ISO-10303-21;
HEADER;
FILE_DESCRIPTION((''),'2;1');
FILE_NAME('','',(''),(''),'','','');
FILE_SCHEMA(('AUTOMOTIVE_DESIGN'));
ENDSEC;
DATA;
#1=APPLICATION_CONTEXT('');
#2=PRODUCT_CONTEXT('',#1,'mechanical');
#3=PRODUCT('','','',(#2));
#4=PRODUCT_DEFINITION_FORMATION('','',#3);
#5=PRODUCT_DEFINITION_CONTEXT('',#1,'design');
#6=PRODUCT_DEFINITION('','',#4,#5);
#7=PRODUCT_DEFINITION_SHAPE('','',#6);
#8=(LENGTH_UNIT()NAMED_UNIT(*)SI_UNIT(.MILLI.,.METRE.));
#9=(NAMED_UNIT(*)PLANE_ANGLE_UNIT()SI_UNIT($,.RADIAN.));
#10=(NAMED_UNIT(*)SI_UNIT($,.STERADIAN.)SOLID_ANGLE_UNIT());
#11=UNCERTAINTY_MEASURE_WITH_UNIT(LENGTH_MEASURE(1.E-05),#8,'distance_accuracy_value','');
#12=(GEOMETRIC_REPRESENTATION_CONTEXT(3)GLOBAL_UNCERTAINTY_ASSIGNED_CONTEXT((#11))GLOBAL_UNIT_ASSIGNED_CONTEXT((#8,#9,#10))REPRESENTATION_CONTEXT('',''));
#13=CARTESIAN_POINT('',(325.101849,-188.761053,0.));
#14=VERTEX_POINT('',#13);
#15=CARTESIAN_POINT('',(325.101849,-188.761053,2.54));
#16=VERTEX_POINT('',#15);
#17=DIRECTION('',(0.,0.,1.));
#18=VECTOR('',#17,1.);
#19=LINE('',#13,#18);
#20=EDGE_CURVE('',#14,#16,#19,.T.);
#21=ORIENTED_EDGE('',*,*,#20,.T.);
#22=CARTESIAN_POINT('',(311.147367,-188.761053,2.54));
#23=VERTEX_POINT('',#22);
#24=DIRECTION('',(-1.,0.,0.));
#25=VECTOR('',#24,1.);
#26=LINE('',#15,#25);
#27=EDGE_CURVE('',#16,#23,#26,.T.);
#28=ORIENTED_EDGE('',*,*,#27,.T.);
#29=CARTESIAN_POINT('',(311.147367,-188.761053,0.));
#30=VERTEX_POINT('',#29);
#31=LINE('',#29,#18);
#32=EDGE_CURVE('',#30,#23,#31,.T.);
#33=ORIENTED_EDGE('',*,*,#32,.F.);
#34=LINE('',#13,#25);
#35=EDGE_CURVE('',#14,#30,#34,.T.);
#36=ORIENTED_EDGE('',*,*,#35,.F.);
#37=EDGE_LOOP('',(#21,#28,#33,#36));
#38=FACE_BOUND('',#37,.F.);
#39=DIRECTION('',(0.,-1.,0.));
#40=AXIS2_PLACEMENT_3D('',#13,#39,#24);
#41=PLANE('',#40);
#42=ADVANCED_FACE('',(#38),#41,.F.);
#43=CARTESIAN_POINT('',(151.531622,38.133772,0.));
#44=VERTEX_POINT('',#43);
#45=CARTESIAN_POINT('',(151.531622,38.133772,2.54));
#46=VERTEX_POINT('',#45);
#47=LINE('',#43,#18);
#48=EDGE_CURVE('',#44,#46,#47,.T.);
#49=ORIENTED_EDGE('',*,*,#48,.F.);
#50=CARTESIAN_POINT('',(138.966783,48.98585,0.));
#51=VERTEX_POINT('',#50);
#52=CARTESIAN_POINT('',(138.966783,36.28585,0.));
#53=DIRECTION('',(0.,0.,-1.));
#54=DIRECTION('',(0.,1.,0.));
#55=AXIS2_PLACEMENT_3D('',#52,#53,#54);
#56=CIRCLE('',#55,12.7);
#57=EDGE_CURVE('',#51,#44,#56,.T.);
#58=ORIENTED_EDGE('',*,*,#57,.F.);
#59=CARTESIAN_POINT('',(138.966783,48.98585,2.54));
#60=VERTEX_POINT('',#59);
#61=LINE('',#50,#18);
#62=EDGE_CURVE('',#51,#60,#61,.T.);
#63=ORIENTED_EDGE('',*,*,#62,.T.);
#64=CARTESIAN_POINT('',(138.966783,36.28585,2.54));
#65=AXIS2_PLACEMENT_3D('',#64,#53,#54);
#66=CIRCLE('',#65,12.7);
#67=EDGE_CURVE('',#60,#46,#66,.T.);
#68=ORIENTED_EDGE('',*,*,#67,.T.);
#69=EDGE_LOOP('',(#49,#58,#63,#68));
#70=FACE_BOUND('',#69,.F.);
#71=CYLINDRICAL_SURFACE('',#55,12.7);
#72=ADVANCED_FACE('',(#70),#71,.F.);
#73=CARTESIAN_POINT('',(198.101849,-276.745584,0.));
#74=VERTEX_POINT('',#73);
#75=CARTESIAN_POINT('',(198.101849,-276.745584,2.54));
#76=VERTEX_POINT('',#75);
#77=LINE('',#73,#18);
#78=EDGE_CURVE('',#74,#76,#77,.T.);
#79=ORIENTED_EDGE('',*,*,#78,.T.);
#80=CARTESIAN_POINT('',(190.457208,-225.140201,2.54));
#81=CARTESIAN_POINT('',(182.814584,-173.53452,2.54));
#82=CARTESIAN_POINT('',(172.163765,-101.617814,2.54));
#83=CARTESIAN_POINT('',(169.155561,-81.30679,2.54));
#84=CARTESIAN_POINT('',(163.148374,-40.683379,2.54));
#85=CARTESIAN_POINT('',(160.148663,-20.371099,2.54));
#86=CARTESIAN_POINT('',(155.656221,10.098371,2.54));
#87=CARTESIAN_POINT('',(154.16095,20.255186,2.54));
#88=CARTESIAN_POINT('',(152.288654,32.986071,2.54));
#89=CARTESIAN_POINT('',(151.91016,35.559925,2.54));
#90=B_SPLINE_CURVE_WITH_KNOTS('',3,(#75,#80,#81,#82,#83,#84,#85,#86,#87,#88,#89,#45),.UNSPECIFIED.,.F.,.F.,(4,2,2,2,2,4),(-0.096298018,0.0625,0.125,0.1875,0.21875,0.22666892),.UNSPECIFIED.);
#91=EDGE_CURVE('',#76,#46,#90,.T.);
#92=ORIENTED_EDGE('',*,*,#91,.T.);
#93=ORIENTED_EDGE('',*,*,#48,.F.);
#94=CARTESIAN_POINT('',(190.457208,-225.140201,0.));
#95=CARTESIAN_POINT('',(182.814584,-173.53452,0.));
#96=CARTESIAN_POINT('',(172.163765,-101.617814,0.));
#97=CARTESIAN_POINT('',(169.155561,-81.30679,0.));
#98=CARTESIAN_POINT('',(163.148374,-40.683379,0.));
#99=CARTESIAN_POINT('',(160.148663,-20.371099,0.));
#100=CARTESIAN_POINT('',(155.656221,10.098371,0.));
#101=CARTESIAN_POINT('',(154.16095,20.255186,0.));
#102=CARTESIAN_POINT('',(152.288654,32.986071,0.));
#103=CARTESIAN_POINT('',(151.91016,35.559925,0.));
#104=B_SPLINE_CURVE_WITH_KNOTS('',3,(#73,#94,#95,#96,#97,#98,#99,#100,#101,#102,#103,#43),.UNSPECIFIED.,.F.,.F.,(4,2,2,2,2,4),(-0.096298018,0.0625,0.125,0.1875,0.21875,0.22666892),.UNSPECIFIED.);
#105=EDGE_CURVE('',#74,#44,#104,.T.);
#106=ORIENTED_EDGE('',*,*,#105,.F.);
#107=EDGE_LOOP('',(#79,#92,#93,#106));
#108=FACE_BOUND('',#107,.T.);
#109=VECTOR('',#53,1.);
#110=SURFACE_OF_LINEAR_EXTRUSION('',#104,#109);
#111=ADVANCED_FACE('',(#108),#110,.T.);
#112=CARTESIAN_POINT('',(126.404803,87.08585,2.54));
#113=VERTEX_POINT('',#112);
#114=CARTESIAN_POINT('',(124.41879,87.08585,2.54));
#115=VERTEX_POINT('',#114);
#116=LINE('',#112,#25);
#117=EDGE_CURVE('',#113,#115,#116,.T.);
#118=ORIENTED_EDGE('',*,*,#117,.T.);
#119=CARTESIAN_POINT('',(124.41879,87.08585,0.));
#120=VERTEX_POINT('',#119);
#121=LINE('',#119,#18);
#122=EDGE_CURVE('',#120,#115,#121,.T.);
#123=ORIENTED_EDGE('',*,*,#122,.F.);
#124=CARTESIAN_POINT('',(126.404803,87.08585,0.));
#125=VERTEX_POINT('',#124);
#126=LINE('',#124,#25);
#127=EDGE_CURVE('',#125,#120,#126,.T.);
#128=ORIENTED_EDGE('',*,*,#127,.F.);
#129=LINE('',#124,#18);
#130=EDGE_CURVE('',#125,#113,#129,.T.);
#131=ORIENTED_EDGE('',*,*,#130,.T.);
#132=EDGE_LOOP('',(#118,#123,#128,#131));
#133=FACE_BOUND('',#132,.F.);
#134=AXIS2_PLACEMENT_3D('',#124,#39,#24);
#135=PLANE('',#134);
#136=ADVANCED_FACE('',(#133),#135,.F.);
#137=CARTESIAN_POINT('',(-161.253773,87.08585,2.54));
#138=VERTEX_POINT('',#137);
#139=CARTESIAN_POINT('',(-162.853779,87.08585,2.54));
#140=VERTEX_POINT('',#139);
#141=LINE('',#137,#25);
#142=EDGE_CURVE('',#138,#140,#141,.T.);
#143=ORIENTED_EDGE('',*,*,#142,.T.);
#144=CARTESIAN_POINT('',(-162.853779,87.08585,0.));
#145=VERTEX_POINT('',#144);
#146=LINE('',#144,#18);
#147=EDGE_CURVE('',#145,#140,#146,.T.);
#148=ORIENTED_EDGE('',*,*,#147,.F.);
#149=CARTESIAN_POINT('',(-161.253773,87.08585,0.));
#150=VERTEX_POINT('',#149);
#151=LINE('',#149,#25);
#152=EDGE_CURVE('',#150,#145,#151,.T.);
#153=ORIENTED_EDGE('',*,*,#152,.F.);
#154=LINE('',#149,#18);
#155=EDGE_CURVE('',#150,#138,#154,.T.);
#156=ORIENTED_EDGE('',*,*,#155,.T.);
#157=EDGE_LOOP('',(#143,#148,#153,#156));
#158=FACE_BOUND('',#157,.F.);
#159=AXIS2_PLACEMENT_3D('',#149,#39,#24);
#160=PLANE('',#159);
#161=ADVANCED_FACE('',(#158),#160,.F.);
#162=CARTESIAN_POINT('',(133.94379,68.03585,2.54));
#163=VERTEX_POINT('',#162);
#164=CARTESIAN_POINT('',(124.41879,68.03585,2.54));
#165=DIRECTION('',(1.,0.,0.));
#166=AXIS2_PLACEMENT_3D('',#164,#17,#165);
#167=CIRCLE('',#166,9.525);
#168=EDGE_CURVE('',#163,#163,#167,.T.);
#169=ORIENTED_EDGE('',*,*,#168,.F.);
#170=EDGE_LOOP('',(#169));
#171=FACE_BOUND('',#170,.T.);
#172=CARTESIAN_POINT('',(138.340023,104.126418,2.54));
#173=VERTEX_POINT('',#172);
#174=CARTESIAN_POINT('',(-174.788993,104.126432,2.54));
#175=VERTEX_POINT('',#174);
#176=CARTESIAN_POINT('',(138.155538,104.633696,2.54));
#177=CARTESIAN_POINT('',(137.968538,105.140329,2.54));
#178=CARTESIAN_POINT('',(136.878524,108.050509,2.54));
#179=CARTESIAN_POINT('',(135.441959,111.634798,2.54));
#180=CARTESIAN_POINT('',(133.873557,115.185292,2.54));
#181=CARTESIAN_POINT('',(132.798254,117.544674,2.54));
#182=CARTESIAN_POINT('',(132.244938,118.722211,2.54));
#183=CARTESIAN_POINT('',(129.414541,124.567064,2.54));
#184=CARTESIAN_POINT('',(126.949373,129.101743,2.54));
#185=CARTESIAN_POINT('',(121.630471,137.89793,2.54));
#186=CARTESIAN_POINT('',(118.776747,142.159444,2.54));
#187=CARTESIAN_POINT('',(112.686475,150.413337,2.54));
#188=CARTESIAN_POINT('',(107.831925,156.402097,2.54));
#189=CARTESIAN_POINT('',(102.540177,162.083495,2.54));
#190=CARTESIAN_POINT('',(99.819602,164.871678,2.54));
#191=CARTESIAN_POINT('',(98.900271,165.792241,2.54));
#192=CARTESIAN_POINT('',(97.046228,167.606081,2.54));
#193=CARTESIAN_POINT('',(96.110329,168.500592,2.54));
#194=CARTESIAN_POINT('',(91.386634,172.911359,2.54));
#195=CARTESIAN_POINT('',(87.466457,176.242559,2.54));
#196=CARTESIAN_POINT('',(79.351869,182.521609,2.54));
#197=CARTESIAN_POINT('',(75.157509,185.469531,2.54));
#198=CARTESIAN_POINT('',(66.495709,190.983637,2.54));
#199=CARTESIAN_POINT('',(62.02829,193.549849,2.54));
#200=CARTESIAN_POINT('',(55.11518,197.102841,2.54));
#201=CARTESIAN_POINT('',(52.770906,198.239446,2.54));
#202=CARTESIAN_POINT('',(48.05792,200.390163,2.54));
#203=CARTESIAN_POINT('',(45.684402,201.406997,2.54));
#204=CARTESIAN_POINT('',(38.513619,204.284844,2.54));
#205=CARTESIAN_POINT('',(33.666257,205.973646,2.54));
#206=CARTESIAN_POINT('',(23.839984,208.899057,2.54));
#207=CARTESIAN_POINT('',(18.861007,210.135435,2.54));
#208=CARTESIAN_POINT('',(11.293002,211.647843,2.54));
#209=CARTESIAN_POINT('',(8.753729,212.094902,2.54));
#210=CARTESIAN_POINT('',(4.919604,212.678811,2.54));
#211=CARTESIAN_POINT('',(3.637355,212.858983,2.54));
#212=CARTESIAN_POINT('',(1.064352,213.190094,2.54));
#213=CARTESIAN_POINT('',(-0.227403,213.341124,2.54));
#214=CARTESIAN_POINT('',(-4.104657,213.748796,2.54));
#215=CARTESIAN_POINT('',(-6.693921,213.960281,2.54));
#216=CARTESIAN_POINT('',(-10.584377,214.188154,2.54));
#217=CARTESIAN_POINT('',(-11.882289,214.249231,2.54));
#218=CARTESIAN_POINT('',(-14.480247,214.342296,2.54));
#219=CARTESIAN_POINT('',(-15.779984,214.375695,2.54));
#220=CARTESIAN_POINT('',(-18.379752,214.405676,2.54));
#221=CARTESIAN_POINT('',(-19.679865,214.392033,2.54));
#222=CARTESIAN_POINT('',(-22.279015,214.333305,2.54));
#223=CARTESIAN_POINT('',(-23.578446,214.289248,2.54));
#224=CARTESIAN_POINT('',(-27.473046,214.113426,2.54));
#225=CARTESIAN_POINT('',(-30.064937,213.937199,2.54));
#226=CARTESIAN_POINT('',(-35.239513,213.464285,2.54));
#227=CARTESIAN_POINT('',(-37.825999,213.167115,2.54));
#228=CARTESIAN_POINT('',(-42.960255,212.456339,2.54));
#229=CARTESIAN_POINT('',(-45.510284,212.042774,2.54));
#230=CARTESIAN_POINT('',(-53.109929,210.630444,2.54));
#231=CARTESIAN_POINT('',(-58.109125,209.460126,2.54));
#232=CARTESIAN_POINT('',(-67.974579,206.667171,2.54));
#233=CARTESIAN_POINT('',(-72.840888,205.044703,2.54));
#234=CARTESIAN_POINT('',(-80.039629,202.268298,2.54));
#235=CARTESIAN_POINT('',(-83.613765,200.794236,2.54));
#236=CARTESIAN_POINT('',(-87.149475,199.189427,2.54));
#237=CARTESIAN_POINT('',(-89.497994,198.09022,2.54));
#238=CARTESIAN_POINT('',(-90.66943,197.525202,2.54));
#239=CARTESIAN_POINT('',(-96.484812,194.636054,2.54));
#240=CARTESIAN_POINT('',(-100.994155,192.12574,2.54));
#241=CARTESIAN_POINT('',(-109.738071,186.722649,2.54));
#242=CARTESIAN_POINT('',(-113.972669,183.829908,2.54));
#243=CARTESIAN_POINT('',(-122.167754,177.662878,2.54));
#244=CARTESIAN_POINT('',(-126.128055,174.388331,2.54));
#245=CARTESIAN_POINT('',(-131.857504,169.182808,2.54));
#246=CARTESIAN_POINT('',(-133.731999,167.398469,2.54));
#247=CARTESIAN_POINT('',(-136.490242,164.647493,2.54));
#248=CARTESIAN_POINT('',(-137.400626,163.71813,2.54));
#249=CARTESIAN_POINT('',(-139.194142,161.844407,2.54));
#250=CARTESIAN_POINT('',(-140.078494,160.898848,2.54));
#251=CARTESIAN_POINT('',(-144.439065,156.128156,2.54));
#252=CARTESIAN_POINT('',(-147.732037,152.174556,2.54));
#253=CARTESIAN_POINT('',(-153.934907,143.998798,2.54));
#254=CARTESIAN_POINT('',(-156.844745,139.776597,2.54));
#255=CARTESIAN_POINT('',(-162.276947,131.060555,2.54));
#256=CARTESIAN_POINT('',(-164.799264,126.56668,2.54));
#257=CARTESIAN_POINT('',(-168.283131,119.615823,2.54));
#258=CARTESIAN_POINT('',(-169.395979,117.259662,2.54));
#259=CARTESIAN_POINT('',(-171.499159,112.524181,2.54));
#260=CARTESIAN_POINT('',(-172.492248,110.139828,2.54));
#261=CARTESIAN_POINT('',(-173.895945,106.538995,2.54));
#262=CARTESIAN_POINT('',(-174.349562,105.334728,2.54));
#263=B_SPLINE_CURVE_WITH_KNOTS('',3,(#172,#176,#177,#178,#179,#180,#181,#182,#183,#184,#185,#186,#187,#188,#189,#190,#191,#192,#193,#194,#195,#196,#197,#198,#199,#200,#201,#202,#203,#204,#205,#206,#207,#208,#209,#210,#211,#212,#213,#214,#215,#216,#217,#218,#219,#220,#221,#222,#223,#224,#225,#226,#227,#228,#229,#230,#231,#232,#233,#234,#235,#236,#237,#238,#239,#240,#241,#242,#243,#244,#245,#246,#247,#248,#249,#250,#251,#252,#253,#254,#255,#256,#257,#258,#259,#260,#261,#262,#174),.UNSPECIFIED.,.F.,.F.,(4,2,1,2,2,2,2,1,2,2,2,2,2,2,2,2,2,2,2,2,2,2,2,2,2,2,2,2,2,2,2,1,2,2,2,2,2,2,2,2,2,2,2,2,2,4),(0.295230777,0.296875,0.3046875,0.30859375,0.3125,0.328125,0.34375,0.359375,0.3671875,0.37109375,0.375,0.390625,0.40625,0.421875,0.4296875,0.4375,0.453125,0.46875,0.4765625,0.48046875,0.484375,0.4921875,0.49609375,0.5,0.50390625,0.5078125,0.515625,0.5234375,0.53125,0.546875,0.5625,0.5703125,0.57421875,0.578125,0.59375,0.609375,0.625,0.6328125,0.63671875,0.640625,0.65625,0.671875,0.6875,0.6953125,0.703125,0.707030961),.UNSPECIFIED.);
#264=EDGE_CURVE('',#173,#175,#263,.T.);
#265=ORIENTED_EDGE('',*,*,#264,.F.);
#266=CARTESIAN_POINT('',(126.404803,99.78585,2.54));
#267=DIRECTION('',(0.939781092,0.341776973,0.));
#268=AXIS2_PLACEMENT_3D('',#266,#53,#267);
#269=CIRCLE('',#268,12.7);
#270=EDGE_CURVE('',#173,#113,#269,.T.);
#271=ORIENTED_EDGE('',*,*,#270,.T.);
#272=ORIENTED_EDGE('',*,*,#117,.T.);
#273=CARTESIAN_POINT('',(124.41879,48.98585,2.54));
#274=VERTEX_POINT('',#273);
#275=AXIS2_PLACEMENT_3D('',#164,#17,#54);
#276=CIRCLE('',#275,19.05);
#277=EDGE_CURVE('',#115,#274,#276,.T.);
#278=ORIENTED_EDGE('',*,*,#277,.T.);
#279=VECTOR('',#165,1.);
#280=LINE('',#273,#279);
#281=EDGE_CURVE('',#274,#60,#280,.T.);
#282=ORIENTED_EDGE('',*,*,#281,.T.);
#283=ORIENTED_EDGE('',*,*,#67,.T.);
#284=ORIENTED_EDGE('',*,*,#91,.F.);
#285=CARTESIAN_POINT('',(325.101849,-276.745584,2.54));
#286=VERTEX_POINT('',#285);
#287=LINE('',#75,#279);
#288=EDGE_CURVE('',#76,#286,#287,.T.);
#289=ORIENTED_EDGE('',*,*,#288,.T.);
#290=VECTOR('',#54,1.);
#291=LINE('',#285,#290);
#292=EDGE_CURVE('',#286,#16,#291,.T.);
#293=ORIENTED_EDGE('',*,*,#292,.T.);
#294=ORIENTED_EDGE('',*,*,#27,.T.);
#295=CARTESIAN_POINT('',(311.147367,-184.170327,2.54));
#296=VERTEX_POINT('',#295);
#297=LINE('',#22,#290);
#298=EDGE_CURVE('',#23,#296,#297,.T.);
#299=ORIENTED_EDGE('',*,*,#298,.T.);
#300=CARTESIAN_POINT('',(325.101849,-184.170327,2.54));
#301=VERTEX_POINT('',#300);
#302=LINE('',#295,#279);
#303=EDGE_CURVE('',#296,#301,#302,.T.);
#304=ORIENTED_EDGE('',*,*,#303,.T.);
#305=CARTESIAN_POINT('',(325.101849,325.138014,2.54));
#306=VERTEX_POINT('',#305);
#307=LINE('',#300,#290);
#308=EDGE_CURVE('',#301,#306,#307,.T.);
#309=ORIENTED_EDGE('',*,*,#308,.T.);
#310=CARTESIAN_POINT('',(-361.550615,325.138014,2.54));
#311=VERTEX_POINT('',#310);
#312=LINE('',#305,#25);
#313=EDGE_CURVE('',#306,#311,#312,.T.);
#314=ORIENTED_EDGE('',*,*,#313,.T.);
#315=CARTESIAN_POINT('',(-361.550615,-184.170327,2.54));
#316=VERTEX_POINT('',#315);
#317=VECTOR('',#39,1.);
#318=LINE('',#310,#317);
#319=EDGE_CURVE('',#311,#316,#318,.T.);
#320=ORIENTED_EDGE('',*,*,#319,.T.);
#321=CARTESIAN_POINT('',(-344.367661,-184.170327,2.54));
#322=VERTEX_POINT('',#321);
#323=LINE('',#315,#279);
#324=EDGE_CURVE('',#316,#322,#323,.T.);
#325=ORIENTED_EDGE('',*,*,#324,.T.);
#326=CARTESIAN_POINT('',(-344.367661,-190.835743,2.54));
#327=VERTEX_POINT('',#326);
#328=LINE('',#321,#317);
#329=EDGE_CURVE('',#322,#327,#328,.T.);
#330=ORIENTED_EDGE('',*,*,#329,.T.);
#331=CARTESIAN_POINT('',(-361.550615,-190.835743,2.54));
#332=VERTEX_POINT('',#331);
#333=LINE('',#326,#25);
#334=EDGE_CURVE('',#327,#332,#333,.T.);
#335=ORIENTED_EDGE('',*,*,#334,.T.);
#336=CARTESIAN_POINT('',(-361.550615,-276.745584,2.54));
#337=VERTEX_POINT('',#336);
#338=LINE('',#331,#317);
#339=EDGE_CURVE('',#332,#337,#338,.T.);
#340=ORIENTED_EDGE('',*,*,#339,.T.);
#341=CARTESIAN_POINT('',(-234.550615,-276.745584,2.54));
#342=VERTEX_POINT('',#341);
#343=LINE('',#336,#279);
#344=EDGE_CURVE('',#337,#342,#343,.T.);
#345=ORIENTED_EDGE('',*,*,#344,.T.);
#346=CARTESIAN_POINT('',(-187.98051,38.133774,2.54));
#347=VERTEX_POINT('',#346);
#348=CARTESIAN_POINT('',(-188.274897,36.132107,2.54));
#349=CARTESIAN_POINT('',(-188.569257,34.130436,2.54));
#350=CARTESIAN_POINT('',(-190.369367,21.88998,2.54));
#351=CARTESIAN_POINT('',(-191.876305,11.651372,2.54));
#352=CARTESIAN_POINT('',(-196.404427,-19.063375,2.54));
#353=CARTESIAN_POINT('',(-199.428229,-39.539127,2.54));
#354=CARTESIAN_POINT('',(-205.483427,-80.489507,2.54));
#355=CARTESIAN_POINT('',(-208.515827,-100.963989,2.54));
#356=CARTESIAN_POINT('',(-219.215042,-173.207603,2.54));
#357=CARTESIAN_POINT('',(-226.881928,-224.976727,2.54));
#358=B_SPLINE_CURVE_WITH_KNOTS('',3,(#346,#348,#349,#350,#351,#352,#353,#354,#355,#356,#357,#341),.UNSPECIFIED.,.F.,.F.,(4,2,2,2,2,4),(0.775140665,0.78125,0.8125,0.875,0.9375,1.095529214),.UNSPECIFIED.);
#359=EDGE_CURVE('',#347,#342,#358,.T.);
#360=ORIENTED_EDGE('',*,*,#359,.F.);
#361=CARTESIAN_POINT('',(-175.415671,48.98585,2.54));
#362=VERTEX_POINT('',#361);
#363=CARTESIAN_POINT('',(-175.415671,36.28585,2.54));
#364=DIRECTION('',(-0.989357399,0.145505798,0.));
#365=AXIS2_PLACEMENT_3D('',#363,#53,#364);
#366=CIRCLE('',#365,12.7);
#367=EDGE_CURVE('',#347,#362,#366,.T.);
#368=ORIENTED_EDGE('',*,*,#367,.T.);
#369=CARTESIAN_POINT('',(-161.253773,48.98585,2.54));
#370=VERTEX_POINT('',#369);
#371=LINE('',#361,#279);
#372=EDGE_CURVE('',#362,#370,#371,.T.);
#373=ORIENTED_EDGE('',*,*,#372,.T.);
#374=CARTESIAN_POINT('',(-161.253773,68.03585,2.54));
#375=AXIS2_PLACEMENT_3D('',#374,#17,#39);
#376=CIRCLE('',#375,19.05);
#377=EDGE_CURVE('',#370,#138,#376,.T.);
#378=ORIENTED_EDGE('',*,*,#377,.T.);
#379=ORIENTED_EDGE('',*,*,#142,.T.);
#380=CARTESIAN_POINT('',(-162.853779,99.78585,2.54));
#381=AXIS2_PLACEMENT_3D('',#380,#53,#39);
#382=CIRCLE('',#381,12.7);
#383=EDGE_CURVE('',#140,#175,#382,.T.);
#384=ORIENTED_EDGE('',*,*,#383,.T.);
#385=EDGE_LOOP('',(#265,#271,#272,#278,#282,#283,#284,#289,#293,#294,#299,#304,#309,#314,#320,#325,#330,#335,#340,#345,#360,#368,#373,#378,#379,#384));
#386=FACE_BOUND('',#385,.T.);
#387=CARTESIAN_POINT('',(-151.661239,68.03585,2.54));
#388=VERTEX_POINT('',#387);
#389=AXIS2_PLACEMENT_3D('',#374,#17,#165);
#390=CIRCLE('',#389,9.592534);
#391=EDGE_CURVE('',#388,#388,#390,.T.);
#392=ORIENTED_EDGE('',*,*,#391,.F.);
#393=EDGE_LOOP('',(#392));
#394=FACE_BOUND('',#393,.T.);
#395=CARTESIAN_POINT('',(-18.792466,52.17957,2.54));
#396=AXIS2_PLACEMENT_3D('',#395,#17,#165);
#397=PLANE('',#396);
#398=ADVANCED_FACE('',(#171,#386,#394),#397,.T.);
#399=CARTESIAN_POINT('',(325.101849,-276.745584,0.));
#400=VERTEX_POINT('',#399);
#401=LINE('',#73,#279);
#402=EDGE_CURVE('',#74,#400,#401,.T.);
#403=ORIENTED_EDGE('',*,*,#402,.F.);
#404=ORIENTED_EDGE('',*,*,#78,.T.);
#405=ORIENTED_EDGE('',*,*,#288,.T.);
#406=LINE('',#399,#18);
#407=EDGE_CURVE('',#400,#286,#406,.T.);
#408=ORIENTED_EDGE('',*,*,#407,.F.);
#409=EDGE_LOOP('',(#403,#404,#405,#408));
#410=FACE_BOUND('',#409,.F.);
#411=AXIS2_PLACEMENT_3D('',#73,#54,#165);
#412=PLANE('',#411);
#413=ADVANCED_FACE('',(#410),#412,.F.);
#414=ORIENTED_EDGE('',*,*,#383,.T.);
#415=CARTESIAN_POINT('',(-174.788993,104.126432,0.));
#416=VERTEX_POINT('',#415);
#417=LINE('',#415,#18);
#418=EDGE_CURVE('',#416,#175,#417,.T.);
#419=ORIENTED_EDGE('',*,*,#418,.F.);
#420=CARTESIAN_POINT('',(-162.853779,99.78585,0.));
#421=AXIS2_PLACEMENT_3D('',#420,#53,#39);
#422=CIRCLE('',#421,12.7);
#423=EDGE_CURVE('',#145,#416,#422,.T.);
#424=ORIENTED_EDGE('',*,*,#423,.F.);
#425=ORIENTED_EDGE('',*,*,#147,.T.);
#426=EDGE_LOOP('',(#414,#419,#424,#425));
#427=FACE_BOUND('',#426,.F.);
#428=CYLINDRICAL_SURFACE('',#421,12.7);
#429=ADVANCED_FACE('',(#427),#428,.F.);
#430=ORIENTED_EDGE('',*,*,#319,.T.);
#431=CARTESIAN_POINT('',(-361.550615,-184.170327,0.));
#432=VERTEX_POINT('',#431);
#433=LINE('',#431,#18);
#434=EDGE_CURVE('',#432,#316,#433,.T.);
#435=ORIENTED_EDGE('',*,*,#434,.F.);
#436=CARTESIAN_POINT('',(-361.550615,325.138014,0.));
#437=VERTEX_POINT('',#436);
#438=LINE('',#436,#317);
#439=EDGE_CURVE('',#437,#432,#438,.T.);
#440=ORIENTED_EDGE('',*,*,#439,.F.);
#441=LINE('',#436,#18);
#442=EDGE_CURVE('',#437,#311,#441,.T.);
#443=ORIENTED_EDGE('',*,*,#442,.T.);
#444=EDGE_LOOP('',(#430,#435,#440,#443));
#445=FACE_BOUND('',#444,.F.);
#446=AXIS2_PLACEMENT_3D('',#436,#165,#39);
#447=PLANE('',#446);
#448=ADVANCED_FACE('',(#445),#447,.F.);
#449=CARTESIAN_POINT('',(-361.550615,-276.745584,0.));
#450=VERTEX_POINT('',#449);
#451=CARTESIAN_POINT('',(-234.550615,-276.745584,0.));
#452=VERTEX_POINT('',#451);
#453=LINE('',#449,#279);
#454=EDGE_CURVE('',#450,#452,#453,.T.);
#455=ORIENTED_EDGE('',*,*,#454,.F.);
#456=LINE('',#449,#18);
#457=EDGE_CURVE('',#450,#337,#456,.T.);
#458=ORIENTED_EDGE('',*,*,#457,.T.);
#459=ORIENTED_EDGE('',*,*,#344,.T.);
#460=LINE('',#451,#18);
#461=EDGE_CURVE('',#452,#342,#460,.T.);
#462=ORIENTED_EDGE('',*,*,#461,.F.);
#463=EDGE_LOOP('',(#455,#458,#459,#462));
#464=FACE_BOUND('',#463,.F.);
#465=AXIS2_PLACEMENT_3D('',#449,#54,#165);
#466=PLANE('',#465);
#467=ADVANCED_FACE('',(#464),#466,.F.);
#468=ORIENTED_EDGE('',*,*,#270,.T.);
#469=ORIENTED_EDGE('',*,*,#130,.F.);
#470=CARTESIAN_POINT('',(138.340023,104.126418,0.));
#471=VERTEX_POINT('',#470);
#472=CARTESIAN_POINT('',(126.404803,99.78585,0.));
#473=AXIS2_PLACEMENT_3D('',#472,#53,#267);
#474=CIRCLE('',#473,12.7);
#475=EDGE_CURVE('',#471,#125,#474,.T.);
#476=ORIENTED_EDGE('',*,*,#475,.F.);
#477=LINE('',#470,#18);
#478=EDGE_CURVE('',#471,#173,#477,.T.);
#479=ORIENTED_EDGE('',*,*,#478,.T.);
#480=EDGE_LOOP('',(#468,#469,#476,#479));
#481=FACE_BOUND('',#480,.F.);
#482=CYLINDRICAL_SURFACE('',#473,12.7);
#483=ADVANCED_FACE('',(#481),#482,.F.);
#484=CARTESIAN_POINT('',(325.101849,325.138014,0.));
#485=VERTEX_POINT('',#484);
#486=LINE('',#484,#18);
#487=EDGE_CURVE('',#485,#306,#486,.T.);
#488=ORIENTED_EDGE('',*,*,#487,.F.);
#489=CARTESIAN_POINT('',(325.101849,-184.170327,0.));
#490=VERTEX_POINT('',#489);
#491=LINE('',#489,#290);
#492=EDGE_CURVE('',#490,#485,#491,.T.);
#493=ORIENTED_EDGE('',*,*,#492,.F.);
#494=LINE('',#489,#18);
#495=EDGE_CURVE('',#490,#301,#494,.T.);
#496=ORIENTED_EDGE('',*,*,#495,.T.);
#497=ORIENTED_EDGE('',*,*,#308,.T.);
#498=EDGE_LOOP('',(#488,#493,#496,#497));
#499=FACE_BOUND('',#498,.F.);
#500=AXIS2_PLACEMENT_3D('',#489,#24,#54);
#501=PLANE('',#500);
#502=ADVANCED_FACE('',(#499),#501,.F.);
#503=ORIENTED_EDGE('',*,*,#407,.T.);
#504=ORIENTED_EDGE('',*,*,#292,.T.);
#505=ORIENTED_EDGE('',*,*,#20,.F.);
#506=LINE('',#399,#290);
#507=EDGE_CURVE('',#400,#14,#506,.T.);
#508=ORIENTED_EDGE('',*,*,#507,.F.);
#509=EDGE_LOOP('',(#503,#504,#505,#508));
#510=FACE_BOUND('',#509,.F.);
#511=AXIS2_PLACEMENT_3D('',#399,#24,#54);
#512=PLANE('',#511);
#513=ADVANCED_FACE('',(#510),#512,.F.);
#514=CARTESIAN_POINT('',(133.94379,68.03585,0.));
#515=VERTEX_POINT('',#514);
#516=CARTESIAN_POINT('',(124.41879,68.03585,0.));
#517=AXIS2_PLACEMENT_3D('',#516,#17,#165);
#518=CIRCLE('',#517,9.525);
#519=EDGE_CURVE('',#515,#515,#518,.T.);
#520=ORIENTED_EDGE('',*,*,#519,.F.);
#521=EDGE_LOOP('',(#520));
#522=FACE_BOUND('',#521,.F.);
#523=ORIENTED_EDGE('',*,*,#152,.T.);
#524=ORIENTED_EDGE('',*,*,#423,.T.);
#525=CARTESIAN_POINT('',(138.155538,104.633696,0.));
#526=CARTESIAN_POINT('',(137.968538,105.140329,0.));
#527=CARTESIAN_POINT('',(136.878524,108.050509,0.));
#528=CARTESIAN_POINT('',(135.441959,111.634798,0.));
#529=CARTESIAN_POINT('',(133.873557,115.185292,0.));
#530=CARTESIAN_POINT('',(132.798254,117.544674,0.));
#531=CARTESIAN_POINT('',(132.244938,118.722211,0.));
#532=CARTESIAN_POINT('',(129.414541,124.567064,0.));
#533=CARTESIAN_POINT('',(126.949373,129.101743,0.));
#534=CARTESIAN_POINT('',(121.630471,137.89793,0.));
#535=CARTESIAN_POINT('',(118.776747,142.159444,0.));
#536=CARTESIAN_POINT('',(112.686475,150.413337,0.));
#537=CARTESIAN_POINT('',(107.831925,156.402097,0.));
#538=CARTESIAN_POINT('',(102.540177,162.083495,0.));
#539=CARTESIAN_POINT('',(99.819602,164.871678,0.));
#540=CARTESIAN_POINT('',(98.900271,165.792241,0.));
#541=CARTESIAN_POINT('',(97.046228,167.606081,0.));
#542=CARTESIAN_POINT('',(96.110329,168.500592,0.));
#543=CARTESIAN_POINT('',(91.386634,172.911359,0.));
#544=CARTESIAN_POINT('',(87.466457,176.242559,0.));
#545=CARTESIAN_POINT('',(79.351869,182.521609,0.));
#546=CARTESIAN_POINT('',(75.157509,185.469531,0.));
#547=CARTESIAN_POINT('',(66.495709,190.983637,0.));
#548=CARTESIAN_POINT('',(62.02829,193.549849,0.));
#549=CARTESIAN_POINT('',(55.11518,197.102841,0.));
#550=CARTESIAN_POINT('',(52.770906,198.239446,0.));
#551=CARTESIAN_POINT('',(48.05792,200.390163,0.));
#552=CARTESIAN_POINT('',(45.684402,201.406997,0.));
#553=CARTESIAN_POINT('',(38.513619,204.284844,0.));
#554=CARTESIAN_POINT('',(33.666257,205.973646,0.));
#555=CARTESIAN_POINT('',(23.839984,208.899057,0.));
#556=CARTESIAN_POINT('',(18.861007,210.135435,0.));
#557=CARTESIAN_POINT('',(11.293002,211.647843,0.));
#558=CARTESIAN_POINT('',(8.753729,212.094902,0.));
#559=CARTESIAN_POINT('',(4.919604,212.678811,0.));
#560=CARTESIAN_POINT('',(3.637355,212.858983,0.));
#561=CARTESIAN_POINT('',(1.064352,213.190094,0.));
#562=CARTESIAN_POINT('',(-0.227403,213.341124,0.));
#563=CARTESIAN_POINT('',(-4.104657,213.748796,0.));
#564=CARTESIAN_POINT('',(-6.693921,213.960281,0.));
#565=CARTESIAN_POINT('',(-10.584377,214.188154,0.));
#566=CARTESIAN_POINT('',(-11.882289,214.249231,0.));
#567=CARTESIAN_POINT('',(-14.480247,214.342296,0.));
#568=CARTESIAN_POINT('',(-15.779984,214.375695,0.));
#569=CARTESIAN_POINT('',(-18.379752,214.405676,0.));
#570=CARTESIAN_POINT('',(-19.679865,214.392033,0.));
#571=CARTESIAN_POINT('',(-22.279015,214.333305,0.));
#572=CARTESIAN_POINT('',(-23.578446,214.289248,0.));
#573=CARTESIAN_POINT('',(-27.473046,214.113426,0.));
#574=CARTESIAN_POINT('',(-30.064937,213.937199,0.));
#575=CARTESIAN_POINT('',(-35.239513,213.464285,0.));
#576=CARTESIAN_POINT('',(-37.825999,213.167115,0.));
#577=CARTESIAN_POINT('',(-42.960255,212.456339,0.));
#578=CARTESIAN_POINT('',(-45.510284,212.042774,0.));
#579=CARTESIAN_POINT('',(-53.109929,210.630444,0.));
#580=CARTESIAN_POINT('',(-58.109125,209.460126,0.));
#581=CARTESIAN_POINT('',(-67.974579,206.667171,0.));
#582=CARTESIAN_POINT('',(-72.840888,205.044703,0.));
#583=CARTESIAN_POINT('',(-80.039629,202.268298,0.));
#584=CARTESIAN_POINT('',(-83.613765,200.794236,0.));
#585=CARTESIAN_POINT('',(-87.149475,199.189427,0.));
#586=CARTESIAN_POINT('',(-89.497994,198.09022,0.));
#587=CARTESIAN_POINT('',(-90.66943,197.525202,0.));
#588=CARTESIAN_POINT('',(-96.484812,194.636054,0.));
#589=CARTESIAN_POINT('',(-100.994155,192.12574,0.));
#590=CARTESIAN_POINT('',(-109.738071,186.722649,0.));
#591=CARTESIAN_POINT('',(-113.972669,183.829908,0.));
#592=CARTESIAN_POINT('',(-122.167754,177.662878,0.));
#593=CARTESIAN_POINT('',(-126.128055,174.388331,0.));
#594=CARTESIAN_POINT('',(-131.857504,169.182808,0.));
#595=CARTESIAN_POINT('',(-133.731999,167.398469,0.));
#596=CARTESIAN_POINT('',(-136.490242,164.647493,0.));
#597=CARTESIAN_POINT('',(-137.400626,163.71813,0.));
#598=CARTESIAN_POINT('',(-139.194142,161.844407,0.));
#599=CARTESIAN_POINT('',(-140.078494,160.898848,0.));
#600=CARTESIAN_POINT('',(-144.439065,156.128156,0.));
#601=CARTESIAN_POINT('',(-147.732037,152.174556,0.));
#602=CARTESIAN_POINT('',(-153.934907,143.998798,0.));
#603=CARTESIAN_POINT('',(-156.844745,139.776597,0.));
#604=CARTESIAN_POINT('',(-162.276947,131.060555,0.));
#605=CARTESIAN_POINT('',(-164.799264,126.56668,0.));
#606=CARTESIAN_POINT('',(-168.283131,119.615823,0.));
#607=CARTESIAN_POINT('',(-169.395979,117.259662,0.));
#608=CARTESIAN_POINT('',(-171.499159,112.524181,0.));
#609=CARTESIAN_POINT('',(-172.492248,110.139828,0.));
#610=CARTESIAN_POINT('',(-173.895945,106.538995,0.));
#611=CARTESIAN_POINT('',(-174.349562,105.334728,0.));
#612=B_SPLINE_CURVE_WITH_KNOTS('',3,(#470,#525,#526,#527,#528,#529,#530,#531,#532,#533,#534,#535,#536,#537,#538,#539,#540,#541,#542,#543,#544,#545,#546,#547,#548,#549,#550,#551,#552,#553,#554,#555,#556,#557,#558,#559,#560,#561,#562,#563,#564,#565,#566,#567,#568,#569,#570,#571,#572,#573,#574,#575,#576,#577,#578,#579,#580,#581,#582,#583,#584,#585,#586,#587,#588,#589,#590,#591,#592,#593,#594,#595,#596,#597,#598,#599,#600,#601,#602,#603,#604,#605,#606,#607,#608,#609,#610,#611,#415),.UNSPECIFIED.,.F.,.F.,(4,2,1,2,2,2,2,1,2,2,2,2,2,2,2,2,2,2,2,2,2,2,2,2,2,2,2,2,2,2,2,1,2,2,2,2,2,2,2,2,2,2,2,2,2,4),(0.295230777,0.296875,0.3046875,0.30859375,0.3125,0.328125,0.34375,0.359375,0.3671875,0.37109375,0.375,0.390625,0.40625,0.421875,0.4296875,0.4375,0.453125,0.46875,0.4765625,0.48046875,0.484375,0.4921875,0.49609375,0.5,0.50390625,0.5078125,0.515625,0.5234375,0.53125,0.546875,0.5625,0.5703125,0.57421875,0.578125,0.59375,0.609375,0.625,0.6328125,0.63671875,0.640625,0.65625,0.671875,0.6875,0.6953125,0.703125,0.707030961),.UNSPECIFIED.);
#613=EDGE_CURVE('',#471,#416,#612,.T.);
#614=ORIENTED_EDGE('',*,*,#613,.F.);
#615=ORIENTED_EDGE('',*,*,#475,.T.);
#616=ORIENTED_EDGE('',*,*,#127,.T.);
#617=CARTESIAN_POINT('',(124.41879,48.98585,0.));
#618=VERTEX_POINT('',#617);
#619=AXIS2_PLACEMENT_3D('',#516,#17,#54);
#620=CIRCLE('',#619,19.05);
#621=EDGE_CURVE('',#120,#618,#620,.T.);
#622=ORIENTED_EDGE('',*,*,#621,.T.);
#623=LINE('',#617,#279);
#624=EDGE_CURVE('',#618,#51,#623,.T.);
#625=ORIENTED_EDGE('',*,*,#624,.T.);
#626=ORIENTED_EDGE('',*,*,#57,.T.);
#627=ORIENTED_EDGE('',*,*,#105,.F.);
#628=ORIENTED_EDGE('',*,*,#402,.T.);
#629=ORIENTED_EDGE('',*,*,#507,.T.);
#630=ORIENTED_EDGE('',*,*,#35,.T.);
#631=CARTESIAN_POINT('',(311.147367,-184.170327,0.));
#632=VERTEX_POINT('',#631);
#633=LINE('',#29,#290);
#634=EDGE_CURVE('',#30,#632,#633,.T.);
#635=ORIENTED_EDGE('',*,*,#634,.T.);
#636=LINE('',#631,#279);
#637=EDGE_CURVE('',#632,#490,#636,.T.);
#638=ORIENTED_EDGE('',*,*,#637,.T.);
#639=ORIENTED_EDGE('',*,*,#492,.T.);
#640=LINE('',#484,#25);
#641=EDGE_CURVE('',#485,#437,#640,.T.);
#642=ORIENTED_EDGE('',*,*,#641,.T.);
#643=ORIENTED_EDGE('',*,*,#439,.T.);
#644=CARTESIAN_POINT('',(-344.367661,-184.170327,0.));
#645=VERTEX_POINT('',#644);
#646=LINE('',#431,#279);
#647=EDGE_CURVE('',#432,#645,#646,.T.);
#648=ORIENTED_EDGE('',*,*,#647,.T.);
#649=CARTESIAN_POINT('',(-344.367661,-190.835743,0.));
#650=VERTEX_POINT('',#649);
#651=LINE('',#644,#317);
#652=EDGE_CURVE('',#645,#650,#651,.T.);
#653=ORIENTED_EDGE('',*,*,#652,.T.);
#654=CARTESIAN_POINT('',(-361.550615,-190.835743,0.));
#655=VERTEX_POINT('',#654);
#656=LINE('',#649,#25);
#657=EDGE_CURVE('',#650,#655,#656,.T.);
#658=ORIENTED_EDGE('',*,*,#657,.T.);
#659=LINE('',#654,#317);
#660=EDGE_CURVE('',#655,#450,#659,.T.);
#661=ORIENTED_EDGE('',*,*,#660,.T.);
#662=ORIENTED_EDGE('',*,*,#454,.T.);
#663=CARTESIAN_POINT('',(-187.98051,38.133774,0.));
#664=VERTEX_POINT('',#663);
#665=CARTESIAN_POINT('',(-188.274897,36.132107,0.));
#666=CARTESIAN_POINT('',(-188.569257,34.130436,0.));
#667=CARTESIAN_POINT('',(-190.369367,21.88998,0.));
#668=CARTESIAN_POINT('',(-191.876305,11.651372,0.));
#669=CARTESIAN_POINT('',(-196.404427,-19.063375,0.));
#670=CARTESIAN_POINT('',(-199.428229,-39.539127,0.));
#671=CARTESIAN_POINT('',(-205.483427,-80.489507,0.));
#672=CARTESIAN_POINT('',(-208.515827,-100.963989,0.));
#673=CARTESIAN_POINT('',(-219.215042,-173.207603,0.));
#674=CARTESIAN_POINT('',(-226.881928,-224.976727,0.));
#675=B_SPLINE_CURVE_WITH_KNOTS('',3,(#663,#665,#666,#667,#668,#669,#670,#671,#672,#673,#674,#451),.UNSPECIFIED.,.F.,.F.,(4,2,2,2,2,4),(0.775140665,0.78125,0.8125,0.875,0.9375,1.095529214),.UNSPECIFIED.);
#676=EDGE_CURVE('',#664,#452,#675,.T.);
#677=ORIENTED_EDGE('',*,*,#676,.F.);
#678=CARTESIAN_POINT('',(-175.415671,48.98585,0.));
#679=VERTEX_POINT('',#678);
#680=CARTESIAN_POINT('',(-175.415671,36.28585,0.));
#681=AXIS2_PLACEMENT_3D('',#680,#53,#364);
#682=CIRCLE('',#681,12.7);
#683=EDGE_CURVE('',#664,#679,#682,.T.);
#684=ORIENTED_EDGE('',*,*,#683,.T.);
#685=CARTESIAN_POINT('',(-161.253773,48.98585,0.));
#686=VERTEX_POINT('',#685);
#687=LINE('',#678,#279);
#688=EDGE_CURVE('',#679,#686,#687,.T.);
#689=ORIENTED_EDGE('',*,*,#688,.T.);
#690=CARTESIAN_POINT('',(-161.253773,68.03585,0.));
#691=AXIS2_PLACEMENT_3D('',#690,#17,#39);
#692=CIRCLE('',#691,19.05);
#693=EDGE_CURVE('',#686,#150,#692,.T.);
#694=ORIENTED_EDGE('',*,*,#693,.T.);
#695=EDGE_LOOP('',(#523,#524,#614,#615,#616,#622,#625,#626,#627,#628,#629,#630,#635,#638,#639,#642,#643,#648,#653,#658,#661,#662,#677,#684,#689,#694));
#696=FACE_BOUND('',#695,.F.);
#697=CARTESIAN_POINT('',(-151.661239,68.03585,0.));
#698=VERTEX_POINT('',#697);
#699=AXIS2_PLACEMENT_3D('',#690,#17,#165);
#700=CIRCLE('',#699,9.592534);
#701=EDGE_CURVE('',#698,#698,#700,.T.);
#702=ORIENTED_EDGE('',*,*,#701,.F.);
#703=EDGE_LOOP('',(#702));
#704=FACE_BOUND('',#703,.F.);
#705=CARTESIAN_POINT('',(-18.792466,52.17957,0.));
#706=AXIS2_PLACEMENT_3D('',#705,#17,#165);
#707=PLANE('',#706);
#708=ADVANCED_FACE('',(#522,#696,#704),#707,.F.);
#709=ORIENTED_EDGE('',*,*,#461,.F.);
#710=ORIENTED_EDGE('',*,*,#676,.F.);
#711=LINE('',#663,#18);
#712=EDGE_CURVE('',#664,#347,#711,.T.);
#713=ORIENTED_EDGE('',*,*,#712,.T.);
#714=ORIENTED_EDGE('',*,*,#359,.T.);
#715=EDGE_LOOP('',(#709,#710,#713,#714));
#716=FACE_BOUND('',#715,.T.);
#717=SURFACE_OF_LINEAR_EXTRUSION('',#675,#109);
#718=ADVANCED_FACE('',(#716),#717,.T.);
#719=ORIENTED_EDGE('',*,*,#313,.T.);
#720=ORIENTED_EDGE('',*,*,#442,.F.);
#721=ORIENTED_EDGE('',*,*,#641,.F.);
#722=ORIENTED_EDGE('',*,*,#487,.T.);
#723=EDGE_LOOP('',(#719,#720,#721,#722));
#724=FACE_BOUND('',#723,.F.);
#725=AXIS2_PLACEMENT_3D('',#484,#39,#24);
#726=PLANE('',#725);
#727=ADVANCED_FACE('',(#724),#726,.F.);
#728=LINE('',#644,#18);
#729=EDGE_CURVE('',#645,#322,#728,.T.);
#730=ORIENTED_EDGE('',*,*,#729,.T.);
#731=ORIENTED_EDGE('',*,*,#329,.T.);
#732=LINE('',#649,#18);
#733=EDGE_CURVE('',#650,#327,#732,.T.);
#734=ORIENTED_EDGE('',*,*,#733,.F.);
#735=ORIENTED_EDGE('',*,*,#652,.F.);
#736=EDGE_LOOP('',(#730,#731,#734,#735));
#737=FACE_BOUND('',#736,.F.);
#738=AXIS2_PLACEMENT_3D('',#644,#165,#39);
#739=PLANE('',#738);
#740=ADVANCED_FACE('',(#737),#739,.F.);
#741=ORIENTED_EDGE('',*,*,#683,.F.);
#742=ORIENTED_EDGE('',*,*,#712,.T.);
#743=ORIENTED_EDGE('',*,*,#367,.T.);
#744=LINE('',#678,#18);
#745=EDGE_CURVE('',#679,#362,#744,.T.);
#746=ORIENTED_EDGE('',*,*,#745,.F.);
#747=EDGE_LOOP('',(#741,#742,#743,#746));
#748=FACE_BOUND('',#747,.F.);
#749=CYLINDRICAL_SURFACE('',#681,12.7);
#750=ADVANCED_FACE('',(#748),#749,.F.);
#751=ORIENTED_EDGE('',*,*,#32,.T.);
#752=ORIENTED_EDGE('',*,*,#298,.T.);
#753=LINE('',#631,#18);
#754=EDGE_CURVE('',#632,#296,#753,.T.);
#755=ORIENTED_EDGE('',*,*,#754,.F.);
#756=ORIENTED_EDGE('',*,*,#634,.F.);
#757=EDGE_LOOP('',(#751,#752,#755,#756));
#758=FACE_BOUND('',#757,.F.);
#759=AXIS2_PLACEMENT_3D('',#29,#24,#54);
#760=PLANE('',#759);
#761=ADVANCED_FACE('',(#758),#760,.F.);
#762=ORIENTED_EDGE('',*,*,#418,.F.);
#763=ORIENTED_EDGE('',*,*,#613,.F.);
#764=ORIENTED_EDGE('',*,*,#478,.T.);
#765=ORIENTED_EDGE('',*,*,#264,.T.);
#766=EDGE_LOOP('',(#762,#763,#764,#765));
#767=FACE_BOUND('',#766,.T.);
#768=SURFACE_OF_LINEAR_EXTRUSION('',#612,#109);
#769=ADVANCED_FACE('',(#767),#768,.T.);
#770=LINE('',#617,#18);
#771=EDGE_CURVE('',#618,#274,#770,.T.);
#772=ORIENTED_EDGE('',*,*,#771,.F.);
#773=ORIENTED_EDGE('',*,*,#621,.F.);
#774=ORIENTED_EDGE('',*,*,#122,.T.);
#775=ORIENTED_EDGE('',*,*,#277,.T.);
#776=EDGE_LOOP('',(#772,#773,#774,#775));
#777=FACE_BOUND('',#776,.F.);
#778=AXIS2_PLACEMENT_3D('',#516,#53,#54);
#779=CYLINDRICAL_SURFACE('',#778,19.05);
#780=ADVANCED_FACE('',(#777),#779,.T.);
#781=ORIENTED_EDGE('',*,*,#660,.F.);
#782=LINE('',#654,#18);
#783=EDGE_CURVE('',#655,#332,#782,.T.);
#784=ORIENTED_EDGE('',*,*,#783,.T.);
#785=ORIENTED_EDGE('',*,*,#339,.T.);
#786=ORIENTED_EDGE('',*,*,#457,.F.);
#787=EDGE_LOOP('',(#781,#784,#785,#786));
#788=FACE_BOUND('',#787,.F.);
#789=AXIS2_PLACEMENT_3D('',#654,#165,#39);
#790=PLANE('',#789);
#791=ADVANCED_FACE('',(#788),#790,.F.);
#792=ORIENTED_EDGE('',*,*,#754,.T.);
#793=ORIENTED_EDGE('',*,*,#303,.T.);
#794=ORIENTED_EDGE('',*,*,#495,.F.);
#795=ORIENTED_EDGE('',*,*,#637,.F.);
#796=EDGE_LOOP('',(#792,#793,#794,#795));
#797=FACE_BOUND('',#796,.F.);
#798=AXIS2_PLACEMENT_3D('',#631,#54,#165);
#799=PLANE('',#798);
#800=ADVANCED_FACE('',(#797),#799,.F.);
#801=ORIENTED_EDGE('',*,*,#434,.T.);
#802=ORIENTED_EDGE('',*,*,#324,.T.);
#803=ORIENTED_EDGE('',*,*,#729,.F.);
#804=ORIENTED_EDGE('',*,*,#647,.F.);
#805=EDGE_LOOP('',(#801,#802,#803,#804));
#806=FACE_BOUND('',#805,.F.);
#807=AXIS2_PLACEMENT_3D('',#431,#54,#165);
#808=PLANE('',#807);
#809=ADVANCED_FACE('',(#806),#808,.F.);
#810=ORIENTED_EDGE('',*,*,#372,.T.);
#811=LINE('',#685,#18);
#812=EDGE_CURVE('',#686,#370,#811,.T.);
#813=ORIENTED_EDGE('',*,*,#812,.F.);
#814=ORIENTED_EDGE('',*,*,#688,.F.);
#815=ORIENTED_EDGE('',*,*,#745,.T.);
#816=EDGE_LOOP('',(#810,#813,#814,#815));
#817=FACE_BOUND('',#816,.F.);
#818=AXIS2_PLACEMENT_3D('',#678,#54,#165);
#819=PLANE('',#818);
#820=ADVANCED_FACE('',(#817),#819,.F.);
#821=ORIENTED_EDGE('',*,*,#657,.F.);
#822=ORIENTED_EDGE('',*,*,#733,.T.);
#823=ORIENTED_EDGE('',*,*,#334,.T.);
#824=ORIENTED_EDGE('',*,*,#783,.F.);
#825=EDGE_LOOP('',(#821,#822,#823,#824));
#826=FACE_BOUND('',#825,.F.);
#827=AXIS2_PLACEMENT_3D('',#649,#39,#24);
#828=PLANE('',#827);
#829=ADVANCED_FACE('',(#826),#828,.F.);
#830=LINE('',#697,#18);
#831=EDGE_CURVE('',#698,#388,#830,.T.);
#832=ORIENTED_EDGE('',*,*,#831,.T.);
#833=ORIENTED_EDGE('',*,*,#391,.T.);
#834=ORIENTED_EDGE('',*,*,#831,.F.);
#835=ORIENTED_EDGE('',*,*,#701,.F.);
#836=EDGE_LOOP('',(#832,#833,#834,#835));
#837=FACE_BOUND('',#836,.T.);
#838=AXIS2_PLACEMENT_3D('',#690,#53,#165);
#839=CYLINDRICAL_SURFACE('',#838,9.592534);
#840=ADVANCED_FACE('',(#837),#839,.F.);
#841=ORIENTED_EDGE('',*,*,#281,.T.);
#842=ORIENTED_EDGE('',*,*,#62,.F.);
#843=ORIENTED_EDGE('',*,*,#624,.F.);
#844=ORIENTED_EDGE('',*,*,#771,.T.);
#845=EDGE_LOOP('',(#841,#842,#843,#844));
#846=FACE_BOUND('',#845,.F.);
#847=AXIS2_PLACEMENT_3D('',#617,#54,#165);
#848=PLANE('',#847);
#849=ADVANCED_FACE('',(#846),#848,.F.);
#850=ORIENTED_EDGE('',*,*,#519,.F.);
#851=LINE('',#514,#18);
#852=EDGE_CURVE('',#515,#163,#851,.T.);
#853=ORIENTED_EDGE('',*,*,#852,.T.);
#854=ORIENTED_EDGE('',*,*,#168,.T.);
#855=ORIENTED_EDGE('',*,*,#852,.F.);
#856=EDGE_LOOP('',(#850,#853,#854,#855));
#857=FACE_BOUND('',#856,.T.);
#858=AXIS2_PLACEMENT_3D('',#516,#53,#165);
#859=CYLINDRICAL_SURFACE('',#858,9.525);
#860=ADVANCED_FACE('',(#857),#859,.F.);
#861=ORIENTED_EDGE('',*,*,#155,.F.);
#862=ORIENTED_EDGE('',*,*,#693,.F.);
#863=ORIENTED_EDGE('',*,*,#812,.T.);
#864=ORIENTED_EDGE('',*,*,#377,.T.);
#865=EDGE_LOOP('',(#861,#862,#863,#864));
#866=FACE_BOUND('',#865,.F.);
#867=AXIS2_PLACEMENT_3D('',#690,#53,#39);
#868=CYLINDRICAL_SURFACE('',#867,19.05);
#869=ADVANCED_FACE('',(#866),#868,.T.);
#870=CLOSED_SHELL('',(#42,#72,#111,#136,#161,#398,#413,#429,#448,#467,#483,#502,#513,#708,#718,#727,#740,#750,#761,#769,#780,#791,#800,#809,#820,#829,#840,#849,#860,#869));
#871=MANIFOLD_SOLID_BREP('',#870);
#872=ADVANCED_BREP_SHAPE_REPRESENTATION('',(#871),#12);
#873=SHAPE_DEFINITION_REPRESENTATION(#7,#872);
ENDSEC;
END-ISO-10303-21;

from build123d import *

# Parameters (mm, degrees)
SKETCH1_R           = 9.592533987
SKETCH1_R_2         = 9.525
BOSS_EXTRUDE1_DEPTH = 2.54


with BuildPart() as part:
    # Sketch1 → Boss-Extrude1 (new body)
    with BuildSketch(Plane.XY):
        with BuildLine():
            Line((325.101849056, -276.74558404), (325.101849056, -188.761052666))
            Line((325.101849056, -188.761052666), (311.147367129, -188.761052666))
            Line((311.147367129, -188.761052666), (311.147367129, -184.170327252))
            Line((311.147367129, -184.170327252), (325.101849056, -184.170327252))
            Line((325.101849056, -184.170327252), (325.101849056, 325.138013642))
            Line((325.101849056, 325.138013642), (-361.55061518, 325.138013642))
            Line((-361.55061518, 325.138013642), (-361.55061518, -184.170327252))
            Line((-361.55061518, -184.170327252), (-344.367661442, -184.170327252))
            Line((-344.367661442, -184.170327252), (-344.367661442, -190.835742865))
            Line((-344.367661442, -190.835742865), (-361.55061518, -190.835742865))
            Line((-361.55061518, -190.835742865), (-361.55061518, -276.74558404))
            Line((-361.55061518, -276.74558404), (-234.55061518, -276.74558404))
            add(Edge.make_bspline(
                [(-187.980509507, 38.133773771), (-188.27489671, 36.13210674), (-188.569257118, 34.130435751), (-190.3693668, 21.889980342), (-191.876305024, 11.651371561), (-196.404427488, -19.063375229), (-199.428229196, -39.539126569), (-205.483427481, -80.489507286), (-208.515826842, -100.963988527), (-219.215042163, -173.207603441), (-226.881928481, -224.976726722), (-234.55061518, -276.74558404)],
                knots=[0.775140665, 0.775140665, 0.775140665, 0.775140665, 0.78125, 0.78125, 0.8125, 0.8125, 0.875, 0.875, 0.9375, 0.9375, 1.095529214, 1.095529214, 1.095529214, 1.095529214], degree=3))
            ThreePointArc((-187.980509507, 38.133773771), (-183.716916528, 45.897266013), (-175.41567054, 48.985850142))
            Line((-175.41567054, 48.985850142), (-161.253773138, 48.985850142))
            ThreePointArc((-161.253773138, 48.985850142), (-142.203773138, 68.035850142), (-161.253773138, 87.085850141))
            Line((-161.253773138, 87.085850141), (-162.853778681, 87.085850141))
            ThreePointArc((-162.853778681, 87.085850141), (-173.256071513, 92.500089794), (-174.788993269, 104.126432214))
            add(Edge.make_bspline(
                [(138.340023196, 104.1264177), (138.155537808, 104.633695525), (137.968537838, 105.140328765), (136.878523505, 108.050508672), (135.441958767, 111.634797813), (133.873557403, 115.185292105), (132.798253571, 117.544674285), (132.244938124, 118.72221102), (129.414540718, 124.567063869), (126.94937257, 129.101743153), (121.630471343, 137.897930344), (118.776746577, 142.159444094), (112.686474548, 150.413337301), (107.831924529, 156.402096918), (102.540177193, 162.083495309), (99.819602382, 164.871677634), (98.900271279, 165.792240869), (97.046227751, 167.606080988), (96.110329243, 168.500592287), (91.386634358, 172.911358508), (87.466457166, 176.242558862), (79.351868776, 182.521609038), (75.1575089, 185.469530602), (66.495709426, 190.983636766), (62.02828952, 193.549848892), (55.115179884, 197.102841468), (52.770906129, 198.23944579), (48.057920232, 200.390162802), (45.684402026, 201.406997485), (38.513619271, 204.284843788), (33.666257106, 205.973646323), (23.839984133, 208.89905679), (18.861006507, 210.13543504), (11.293001851, 211.647842714), (8.753729317, 212.094901761), (4.919604431, 212.678810774), (3.63735506, 212.858983123), (1.064351829, 213.190093886), (-0.227403309, 213.341124006), (-4.104657388, 213.748796074), (-6.69392087, 213.960280793), (-10.584377098, 214.188154302), (-11.882288513, 214.24923116), (-14.480247284, 214.34229574), (-15.77998427, 214.375695042), (-18.379751713, 214.405675513), (-19.679864546, 214.392033292), (-22.279014783, 214.333304532), (-23.578445595, 214.289247872), (-27.473045877, 214.113425657), (-30.064936685, 213.93719921), (-35.239513244, 213.464285113), (-37.82599866, 213.167115032), (-42.960254521, 212.456338993), (-45.510284017, 212.042773536), (-53.109929228, 210.630443886), (-58.109124925, 209.46012554), (-67.974579463, 206.667171099), (-72.840887694, 205.044703051), (-80.039629101, 202.268297913), (-83.613765485, 200.794235552), (-87.149475357, 199.189426954), (-89.497993793, 198.090219969), (-90.669429689, 197.525202002), (-96.484812077, 194.636054099), (-100.994154698, 192.125739674), (-109.738071064, 186.722649456), (-113.972669304, 183.829907758), (-122.167753951, 177.662877555), (-126.128054678, 174.388330596), (-131.857503737, 169.182808313), (-133.731998876, 167.398469262), (-136.490242047, 164.64749262), (-137.400625577, 163.718129876), (-139.194142166, 161.84440698), (-140.078494423, 160.898848159), (-144.439064905, 156.128155654), (-147.732037091, 152.174555571), (-153.934907403, 143.998797648), (-156.844744983, 139.776597363), (-162.276947412, 131.060555304), (-164.799263726, 126.566679506), (-168.283130528, 119.615822968), (-169.395978502, 117.259661658), (-171.499158951, 112.524180704), (-172.492247577, 110.139827958), (-173.895945336, 106.538995231), (-174.349562031, 105.334727793), (-174.788993269, 104.126432214)],
                knots=[0.295230777, 0.295230777, 0.295230777, 0.295230777, 0.296875, 0.296875, 0.3046875, 0.30859375, 0.30859375, 0.3125, 0.3125, 0.328125, 0.328125, 0.34375, 0.34375, 0.359375, 0.3671875, 0.3671875, 0.37109375, 0.37109375, 0.375, 0.375, 0.390625, 0.390625, 0.40625, 0.40625, 0.421875, 0.421875, 0.4296875, 0.4296875, 0.4375, 0.4375, 0.453125, 0.453125, 0.46875, 0.46875, 0.4765625, 0.4765625, 0.48046875, 0.48046875, 0.484375, 0.484375, 0.4921875, 0.4921875, 0.49609375, 0.49609375, 0.5, 0.5, 0.50390625, 0.50390625, 0.5078125, 0.5078125, 0.515625, 0.515625, 0.5234375, 0.5234375, 0.53125, 0.53125, 0.546875, 0.546875, 0.5625, 0.5625, 0.5703125, 0.57421875, 0.57421875, 0.578125, 0.578125, 0.59375, 0.59375, 0.609375, 0.609375, 0.625, 0.625, 0.6328125, 0.6328125, 0.63671875, 0.63671875, 0.640625, 0.640625, 0.65625, 0.65625, 0.671875, 0.671875, 0.6875, 0.6875, 0.6953125, 0.6953125, 0.703125, 0.703125, 0.707030961, 0.707030961, 0.707030961, 0.707030961], degree=3))
            ThreePointArc((138.340023196, 104.1264177), (136.807091731, 92.500083469), (126.404803329, 87.085850141))
            Line((126.404803329, 87.085850141), (124.418789558, 87.085850141))
            ThreePointArc((124.418789558, 87.085850141), (105.368789558, 68.035850142), (124.418789558, 48.985850142))
            Line((124.418789558, 48.985850142), (138.966782744, 48.985850142))
            ThreePointArc((138.966782744, 48.985850142), (147.268029336, 45.897265491), (151.531621943, 38.133772192))
            add(Edge.make_bspline(
                [(198.101849056, -276.74558404), (190.457207742, -225.140201219), (182.814584349, -173.534519662), (172.163765006, -101.617813639), (169.155561459, -81.306790297), (163.148374331, -40.683378675), (160.148663276, -20.371098521), (155.656220674, 10.098370509), (154.16095032, 20.255186016), (152.288653907, 32.986071489), (151.910159921, 35.559925083), (151.531621943, 38.133772192)],
                knots=[-0.096298018, -0.096298018, -0.096298018, -0.096298018, 0.0625, 0.0625, 0.125, 0.125, 0.1875, 0.1875, 0.21875, 0.21875, 0.22666892, 0.22666892, 0.22666892, 0.22666892], degree=3))
            Line((198.101849056, -276.74558404), (325.101849056, -276.74558404))
        make_face()
        with Locations((-161.253773138, 68.035850142)):
            Circle(SKETCH1_R, mode=Mode.SUBTRACT)
        with Locations((124.418789558, 68.035850142)):
            Circle(SKETCH1_R_2, mode=Mode.SUBTRACT)
    extrude(amount=BOSS_EXTRUDE1_DEPTH)


solid = part.part
